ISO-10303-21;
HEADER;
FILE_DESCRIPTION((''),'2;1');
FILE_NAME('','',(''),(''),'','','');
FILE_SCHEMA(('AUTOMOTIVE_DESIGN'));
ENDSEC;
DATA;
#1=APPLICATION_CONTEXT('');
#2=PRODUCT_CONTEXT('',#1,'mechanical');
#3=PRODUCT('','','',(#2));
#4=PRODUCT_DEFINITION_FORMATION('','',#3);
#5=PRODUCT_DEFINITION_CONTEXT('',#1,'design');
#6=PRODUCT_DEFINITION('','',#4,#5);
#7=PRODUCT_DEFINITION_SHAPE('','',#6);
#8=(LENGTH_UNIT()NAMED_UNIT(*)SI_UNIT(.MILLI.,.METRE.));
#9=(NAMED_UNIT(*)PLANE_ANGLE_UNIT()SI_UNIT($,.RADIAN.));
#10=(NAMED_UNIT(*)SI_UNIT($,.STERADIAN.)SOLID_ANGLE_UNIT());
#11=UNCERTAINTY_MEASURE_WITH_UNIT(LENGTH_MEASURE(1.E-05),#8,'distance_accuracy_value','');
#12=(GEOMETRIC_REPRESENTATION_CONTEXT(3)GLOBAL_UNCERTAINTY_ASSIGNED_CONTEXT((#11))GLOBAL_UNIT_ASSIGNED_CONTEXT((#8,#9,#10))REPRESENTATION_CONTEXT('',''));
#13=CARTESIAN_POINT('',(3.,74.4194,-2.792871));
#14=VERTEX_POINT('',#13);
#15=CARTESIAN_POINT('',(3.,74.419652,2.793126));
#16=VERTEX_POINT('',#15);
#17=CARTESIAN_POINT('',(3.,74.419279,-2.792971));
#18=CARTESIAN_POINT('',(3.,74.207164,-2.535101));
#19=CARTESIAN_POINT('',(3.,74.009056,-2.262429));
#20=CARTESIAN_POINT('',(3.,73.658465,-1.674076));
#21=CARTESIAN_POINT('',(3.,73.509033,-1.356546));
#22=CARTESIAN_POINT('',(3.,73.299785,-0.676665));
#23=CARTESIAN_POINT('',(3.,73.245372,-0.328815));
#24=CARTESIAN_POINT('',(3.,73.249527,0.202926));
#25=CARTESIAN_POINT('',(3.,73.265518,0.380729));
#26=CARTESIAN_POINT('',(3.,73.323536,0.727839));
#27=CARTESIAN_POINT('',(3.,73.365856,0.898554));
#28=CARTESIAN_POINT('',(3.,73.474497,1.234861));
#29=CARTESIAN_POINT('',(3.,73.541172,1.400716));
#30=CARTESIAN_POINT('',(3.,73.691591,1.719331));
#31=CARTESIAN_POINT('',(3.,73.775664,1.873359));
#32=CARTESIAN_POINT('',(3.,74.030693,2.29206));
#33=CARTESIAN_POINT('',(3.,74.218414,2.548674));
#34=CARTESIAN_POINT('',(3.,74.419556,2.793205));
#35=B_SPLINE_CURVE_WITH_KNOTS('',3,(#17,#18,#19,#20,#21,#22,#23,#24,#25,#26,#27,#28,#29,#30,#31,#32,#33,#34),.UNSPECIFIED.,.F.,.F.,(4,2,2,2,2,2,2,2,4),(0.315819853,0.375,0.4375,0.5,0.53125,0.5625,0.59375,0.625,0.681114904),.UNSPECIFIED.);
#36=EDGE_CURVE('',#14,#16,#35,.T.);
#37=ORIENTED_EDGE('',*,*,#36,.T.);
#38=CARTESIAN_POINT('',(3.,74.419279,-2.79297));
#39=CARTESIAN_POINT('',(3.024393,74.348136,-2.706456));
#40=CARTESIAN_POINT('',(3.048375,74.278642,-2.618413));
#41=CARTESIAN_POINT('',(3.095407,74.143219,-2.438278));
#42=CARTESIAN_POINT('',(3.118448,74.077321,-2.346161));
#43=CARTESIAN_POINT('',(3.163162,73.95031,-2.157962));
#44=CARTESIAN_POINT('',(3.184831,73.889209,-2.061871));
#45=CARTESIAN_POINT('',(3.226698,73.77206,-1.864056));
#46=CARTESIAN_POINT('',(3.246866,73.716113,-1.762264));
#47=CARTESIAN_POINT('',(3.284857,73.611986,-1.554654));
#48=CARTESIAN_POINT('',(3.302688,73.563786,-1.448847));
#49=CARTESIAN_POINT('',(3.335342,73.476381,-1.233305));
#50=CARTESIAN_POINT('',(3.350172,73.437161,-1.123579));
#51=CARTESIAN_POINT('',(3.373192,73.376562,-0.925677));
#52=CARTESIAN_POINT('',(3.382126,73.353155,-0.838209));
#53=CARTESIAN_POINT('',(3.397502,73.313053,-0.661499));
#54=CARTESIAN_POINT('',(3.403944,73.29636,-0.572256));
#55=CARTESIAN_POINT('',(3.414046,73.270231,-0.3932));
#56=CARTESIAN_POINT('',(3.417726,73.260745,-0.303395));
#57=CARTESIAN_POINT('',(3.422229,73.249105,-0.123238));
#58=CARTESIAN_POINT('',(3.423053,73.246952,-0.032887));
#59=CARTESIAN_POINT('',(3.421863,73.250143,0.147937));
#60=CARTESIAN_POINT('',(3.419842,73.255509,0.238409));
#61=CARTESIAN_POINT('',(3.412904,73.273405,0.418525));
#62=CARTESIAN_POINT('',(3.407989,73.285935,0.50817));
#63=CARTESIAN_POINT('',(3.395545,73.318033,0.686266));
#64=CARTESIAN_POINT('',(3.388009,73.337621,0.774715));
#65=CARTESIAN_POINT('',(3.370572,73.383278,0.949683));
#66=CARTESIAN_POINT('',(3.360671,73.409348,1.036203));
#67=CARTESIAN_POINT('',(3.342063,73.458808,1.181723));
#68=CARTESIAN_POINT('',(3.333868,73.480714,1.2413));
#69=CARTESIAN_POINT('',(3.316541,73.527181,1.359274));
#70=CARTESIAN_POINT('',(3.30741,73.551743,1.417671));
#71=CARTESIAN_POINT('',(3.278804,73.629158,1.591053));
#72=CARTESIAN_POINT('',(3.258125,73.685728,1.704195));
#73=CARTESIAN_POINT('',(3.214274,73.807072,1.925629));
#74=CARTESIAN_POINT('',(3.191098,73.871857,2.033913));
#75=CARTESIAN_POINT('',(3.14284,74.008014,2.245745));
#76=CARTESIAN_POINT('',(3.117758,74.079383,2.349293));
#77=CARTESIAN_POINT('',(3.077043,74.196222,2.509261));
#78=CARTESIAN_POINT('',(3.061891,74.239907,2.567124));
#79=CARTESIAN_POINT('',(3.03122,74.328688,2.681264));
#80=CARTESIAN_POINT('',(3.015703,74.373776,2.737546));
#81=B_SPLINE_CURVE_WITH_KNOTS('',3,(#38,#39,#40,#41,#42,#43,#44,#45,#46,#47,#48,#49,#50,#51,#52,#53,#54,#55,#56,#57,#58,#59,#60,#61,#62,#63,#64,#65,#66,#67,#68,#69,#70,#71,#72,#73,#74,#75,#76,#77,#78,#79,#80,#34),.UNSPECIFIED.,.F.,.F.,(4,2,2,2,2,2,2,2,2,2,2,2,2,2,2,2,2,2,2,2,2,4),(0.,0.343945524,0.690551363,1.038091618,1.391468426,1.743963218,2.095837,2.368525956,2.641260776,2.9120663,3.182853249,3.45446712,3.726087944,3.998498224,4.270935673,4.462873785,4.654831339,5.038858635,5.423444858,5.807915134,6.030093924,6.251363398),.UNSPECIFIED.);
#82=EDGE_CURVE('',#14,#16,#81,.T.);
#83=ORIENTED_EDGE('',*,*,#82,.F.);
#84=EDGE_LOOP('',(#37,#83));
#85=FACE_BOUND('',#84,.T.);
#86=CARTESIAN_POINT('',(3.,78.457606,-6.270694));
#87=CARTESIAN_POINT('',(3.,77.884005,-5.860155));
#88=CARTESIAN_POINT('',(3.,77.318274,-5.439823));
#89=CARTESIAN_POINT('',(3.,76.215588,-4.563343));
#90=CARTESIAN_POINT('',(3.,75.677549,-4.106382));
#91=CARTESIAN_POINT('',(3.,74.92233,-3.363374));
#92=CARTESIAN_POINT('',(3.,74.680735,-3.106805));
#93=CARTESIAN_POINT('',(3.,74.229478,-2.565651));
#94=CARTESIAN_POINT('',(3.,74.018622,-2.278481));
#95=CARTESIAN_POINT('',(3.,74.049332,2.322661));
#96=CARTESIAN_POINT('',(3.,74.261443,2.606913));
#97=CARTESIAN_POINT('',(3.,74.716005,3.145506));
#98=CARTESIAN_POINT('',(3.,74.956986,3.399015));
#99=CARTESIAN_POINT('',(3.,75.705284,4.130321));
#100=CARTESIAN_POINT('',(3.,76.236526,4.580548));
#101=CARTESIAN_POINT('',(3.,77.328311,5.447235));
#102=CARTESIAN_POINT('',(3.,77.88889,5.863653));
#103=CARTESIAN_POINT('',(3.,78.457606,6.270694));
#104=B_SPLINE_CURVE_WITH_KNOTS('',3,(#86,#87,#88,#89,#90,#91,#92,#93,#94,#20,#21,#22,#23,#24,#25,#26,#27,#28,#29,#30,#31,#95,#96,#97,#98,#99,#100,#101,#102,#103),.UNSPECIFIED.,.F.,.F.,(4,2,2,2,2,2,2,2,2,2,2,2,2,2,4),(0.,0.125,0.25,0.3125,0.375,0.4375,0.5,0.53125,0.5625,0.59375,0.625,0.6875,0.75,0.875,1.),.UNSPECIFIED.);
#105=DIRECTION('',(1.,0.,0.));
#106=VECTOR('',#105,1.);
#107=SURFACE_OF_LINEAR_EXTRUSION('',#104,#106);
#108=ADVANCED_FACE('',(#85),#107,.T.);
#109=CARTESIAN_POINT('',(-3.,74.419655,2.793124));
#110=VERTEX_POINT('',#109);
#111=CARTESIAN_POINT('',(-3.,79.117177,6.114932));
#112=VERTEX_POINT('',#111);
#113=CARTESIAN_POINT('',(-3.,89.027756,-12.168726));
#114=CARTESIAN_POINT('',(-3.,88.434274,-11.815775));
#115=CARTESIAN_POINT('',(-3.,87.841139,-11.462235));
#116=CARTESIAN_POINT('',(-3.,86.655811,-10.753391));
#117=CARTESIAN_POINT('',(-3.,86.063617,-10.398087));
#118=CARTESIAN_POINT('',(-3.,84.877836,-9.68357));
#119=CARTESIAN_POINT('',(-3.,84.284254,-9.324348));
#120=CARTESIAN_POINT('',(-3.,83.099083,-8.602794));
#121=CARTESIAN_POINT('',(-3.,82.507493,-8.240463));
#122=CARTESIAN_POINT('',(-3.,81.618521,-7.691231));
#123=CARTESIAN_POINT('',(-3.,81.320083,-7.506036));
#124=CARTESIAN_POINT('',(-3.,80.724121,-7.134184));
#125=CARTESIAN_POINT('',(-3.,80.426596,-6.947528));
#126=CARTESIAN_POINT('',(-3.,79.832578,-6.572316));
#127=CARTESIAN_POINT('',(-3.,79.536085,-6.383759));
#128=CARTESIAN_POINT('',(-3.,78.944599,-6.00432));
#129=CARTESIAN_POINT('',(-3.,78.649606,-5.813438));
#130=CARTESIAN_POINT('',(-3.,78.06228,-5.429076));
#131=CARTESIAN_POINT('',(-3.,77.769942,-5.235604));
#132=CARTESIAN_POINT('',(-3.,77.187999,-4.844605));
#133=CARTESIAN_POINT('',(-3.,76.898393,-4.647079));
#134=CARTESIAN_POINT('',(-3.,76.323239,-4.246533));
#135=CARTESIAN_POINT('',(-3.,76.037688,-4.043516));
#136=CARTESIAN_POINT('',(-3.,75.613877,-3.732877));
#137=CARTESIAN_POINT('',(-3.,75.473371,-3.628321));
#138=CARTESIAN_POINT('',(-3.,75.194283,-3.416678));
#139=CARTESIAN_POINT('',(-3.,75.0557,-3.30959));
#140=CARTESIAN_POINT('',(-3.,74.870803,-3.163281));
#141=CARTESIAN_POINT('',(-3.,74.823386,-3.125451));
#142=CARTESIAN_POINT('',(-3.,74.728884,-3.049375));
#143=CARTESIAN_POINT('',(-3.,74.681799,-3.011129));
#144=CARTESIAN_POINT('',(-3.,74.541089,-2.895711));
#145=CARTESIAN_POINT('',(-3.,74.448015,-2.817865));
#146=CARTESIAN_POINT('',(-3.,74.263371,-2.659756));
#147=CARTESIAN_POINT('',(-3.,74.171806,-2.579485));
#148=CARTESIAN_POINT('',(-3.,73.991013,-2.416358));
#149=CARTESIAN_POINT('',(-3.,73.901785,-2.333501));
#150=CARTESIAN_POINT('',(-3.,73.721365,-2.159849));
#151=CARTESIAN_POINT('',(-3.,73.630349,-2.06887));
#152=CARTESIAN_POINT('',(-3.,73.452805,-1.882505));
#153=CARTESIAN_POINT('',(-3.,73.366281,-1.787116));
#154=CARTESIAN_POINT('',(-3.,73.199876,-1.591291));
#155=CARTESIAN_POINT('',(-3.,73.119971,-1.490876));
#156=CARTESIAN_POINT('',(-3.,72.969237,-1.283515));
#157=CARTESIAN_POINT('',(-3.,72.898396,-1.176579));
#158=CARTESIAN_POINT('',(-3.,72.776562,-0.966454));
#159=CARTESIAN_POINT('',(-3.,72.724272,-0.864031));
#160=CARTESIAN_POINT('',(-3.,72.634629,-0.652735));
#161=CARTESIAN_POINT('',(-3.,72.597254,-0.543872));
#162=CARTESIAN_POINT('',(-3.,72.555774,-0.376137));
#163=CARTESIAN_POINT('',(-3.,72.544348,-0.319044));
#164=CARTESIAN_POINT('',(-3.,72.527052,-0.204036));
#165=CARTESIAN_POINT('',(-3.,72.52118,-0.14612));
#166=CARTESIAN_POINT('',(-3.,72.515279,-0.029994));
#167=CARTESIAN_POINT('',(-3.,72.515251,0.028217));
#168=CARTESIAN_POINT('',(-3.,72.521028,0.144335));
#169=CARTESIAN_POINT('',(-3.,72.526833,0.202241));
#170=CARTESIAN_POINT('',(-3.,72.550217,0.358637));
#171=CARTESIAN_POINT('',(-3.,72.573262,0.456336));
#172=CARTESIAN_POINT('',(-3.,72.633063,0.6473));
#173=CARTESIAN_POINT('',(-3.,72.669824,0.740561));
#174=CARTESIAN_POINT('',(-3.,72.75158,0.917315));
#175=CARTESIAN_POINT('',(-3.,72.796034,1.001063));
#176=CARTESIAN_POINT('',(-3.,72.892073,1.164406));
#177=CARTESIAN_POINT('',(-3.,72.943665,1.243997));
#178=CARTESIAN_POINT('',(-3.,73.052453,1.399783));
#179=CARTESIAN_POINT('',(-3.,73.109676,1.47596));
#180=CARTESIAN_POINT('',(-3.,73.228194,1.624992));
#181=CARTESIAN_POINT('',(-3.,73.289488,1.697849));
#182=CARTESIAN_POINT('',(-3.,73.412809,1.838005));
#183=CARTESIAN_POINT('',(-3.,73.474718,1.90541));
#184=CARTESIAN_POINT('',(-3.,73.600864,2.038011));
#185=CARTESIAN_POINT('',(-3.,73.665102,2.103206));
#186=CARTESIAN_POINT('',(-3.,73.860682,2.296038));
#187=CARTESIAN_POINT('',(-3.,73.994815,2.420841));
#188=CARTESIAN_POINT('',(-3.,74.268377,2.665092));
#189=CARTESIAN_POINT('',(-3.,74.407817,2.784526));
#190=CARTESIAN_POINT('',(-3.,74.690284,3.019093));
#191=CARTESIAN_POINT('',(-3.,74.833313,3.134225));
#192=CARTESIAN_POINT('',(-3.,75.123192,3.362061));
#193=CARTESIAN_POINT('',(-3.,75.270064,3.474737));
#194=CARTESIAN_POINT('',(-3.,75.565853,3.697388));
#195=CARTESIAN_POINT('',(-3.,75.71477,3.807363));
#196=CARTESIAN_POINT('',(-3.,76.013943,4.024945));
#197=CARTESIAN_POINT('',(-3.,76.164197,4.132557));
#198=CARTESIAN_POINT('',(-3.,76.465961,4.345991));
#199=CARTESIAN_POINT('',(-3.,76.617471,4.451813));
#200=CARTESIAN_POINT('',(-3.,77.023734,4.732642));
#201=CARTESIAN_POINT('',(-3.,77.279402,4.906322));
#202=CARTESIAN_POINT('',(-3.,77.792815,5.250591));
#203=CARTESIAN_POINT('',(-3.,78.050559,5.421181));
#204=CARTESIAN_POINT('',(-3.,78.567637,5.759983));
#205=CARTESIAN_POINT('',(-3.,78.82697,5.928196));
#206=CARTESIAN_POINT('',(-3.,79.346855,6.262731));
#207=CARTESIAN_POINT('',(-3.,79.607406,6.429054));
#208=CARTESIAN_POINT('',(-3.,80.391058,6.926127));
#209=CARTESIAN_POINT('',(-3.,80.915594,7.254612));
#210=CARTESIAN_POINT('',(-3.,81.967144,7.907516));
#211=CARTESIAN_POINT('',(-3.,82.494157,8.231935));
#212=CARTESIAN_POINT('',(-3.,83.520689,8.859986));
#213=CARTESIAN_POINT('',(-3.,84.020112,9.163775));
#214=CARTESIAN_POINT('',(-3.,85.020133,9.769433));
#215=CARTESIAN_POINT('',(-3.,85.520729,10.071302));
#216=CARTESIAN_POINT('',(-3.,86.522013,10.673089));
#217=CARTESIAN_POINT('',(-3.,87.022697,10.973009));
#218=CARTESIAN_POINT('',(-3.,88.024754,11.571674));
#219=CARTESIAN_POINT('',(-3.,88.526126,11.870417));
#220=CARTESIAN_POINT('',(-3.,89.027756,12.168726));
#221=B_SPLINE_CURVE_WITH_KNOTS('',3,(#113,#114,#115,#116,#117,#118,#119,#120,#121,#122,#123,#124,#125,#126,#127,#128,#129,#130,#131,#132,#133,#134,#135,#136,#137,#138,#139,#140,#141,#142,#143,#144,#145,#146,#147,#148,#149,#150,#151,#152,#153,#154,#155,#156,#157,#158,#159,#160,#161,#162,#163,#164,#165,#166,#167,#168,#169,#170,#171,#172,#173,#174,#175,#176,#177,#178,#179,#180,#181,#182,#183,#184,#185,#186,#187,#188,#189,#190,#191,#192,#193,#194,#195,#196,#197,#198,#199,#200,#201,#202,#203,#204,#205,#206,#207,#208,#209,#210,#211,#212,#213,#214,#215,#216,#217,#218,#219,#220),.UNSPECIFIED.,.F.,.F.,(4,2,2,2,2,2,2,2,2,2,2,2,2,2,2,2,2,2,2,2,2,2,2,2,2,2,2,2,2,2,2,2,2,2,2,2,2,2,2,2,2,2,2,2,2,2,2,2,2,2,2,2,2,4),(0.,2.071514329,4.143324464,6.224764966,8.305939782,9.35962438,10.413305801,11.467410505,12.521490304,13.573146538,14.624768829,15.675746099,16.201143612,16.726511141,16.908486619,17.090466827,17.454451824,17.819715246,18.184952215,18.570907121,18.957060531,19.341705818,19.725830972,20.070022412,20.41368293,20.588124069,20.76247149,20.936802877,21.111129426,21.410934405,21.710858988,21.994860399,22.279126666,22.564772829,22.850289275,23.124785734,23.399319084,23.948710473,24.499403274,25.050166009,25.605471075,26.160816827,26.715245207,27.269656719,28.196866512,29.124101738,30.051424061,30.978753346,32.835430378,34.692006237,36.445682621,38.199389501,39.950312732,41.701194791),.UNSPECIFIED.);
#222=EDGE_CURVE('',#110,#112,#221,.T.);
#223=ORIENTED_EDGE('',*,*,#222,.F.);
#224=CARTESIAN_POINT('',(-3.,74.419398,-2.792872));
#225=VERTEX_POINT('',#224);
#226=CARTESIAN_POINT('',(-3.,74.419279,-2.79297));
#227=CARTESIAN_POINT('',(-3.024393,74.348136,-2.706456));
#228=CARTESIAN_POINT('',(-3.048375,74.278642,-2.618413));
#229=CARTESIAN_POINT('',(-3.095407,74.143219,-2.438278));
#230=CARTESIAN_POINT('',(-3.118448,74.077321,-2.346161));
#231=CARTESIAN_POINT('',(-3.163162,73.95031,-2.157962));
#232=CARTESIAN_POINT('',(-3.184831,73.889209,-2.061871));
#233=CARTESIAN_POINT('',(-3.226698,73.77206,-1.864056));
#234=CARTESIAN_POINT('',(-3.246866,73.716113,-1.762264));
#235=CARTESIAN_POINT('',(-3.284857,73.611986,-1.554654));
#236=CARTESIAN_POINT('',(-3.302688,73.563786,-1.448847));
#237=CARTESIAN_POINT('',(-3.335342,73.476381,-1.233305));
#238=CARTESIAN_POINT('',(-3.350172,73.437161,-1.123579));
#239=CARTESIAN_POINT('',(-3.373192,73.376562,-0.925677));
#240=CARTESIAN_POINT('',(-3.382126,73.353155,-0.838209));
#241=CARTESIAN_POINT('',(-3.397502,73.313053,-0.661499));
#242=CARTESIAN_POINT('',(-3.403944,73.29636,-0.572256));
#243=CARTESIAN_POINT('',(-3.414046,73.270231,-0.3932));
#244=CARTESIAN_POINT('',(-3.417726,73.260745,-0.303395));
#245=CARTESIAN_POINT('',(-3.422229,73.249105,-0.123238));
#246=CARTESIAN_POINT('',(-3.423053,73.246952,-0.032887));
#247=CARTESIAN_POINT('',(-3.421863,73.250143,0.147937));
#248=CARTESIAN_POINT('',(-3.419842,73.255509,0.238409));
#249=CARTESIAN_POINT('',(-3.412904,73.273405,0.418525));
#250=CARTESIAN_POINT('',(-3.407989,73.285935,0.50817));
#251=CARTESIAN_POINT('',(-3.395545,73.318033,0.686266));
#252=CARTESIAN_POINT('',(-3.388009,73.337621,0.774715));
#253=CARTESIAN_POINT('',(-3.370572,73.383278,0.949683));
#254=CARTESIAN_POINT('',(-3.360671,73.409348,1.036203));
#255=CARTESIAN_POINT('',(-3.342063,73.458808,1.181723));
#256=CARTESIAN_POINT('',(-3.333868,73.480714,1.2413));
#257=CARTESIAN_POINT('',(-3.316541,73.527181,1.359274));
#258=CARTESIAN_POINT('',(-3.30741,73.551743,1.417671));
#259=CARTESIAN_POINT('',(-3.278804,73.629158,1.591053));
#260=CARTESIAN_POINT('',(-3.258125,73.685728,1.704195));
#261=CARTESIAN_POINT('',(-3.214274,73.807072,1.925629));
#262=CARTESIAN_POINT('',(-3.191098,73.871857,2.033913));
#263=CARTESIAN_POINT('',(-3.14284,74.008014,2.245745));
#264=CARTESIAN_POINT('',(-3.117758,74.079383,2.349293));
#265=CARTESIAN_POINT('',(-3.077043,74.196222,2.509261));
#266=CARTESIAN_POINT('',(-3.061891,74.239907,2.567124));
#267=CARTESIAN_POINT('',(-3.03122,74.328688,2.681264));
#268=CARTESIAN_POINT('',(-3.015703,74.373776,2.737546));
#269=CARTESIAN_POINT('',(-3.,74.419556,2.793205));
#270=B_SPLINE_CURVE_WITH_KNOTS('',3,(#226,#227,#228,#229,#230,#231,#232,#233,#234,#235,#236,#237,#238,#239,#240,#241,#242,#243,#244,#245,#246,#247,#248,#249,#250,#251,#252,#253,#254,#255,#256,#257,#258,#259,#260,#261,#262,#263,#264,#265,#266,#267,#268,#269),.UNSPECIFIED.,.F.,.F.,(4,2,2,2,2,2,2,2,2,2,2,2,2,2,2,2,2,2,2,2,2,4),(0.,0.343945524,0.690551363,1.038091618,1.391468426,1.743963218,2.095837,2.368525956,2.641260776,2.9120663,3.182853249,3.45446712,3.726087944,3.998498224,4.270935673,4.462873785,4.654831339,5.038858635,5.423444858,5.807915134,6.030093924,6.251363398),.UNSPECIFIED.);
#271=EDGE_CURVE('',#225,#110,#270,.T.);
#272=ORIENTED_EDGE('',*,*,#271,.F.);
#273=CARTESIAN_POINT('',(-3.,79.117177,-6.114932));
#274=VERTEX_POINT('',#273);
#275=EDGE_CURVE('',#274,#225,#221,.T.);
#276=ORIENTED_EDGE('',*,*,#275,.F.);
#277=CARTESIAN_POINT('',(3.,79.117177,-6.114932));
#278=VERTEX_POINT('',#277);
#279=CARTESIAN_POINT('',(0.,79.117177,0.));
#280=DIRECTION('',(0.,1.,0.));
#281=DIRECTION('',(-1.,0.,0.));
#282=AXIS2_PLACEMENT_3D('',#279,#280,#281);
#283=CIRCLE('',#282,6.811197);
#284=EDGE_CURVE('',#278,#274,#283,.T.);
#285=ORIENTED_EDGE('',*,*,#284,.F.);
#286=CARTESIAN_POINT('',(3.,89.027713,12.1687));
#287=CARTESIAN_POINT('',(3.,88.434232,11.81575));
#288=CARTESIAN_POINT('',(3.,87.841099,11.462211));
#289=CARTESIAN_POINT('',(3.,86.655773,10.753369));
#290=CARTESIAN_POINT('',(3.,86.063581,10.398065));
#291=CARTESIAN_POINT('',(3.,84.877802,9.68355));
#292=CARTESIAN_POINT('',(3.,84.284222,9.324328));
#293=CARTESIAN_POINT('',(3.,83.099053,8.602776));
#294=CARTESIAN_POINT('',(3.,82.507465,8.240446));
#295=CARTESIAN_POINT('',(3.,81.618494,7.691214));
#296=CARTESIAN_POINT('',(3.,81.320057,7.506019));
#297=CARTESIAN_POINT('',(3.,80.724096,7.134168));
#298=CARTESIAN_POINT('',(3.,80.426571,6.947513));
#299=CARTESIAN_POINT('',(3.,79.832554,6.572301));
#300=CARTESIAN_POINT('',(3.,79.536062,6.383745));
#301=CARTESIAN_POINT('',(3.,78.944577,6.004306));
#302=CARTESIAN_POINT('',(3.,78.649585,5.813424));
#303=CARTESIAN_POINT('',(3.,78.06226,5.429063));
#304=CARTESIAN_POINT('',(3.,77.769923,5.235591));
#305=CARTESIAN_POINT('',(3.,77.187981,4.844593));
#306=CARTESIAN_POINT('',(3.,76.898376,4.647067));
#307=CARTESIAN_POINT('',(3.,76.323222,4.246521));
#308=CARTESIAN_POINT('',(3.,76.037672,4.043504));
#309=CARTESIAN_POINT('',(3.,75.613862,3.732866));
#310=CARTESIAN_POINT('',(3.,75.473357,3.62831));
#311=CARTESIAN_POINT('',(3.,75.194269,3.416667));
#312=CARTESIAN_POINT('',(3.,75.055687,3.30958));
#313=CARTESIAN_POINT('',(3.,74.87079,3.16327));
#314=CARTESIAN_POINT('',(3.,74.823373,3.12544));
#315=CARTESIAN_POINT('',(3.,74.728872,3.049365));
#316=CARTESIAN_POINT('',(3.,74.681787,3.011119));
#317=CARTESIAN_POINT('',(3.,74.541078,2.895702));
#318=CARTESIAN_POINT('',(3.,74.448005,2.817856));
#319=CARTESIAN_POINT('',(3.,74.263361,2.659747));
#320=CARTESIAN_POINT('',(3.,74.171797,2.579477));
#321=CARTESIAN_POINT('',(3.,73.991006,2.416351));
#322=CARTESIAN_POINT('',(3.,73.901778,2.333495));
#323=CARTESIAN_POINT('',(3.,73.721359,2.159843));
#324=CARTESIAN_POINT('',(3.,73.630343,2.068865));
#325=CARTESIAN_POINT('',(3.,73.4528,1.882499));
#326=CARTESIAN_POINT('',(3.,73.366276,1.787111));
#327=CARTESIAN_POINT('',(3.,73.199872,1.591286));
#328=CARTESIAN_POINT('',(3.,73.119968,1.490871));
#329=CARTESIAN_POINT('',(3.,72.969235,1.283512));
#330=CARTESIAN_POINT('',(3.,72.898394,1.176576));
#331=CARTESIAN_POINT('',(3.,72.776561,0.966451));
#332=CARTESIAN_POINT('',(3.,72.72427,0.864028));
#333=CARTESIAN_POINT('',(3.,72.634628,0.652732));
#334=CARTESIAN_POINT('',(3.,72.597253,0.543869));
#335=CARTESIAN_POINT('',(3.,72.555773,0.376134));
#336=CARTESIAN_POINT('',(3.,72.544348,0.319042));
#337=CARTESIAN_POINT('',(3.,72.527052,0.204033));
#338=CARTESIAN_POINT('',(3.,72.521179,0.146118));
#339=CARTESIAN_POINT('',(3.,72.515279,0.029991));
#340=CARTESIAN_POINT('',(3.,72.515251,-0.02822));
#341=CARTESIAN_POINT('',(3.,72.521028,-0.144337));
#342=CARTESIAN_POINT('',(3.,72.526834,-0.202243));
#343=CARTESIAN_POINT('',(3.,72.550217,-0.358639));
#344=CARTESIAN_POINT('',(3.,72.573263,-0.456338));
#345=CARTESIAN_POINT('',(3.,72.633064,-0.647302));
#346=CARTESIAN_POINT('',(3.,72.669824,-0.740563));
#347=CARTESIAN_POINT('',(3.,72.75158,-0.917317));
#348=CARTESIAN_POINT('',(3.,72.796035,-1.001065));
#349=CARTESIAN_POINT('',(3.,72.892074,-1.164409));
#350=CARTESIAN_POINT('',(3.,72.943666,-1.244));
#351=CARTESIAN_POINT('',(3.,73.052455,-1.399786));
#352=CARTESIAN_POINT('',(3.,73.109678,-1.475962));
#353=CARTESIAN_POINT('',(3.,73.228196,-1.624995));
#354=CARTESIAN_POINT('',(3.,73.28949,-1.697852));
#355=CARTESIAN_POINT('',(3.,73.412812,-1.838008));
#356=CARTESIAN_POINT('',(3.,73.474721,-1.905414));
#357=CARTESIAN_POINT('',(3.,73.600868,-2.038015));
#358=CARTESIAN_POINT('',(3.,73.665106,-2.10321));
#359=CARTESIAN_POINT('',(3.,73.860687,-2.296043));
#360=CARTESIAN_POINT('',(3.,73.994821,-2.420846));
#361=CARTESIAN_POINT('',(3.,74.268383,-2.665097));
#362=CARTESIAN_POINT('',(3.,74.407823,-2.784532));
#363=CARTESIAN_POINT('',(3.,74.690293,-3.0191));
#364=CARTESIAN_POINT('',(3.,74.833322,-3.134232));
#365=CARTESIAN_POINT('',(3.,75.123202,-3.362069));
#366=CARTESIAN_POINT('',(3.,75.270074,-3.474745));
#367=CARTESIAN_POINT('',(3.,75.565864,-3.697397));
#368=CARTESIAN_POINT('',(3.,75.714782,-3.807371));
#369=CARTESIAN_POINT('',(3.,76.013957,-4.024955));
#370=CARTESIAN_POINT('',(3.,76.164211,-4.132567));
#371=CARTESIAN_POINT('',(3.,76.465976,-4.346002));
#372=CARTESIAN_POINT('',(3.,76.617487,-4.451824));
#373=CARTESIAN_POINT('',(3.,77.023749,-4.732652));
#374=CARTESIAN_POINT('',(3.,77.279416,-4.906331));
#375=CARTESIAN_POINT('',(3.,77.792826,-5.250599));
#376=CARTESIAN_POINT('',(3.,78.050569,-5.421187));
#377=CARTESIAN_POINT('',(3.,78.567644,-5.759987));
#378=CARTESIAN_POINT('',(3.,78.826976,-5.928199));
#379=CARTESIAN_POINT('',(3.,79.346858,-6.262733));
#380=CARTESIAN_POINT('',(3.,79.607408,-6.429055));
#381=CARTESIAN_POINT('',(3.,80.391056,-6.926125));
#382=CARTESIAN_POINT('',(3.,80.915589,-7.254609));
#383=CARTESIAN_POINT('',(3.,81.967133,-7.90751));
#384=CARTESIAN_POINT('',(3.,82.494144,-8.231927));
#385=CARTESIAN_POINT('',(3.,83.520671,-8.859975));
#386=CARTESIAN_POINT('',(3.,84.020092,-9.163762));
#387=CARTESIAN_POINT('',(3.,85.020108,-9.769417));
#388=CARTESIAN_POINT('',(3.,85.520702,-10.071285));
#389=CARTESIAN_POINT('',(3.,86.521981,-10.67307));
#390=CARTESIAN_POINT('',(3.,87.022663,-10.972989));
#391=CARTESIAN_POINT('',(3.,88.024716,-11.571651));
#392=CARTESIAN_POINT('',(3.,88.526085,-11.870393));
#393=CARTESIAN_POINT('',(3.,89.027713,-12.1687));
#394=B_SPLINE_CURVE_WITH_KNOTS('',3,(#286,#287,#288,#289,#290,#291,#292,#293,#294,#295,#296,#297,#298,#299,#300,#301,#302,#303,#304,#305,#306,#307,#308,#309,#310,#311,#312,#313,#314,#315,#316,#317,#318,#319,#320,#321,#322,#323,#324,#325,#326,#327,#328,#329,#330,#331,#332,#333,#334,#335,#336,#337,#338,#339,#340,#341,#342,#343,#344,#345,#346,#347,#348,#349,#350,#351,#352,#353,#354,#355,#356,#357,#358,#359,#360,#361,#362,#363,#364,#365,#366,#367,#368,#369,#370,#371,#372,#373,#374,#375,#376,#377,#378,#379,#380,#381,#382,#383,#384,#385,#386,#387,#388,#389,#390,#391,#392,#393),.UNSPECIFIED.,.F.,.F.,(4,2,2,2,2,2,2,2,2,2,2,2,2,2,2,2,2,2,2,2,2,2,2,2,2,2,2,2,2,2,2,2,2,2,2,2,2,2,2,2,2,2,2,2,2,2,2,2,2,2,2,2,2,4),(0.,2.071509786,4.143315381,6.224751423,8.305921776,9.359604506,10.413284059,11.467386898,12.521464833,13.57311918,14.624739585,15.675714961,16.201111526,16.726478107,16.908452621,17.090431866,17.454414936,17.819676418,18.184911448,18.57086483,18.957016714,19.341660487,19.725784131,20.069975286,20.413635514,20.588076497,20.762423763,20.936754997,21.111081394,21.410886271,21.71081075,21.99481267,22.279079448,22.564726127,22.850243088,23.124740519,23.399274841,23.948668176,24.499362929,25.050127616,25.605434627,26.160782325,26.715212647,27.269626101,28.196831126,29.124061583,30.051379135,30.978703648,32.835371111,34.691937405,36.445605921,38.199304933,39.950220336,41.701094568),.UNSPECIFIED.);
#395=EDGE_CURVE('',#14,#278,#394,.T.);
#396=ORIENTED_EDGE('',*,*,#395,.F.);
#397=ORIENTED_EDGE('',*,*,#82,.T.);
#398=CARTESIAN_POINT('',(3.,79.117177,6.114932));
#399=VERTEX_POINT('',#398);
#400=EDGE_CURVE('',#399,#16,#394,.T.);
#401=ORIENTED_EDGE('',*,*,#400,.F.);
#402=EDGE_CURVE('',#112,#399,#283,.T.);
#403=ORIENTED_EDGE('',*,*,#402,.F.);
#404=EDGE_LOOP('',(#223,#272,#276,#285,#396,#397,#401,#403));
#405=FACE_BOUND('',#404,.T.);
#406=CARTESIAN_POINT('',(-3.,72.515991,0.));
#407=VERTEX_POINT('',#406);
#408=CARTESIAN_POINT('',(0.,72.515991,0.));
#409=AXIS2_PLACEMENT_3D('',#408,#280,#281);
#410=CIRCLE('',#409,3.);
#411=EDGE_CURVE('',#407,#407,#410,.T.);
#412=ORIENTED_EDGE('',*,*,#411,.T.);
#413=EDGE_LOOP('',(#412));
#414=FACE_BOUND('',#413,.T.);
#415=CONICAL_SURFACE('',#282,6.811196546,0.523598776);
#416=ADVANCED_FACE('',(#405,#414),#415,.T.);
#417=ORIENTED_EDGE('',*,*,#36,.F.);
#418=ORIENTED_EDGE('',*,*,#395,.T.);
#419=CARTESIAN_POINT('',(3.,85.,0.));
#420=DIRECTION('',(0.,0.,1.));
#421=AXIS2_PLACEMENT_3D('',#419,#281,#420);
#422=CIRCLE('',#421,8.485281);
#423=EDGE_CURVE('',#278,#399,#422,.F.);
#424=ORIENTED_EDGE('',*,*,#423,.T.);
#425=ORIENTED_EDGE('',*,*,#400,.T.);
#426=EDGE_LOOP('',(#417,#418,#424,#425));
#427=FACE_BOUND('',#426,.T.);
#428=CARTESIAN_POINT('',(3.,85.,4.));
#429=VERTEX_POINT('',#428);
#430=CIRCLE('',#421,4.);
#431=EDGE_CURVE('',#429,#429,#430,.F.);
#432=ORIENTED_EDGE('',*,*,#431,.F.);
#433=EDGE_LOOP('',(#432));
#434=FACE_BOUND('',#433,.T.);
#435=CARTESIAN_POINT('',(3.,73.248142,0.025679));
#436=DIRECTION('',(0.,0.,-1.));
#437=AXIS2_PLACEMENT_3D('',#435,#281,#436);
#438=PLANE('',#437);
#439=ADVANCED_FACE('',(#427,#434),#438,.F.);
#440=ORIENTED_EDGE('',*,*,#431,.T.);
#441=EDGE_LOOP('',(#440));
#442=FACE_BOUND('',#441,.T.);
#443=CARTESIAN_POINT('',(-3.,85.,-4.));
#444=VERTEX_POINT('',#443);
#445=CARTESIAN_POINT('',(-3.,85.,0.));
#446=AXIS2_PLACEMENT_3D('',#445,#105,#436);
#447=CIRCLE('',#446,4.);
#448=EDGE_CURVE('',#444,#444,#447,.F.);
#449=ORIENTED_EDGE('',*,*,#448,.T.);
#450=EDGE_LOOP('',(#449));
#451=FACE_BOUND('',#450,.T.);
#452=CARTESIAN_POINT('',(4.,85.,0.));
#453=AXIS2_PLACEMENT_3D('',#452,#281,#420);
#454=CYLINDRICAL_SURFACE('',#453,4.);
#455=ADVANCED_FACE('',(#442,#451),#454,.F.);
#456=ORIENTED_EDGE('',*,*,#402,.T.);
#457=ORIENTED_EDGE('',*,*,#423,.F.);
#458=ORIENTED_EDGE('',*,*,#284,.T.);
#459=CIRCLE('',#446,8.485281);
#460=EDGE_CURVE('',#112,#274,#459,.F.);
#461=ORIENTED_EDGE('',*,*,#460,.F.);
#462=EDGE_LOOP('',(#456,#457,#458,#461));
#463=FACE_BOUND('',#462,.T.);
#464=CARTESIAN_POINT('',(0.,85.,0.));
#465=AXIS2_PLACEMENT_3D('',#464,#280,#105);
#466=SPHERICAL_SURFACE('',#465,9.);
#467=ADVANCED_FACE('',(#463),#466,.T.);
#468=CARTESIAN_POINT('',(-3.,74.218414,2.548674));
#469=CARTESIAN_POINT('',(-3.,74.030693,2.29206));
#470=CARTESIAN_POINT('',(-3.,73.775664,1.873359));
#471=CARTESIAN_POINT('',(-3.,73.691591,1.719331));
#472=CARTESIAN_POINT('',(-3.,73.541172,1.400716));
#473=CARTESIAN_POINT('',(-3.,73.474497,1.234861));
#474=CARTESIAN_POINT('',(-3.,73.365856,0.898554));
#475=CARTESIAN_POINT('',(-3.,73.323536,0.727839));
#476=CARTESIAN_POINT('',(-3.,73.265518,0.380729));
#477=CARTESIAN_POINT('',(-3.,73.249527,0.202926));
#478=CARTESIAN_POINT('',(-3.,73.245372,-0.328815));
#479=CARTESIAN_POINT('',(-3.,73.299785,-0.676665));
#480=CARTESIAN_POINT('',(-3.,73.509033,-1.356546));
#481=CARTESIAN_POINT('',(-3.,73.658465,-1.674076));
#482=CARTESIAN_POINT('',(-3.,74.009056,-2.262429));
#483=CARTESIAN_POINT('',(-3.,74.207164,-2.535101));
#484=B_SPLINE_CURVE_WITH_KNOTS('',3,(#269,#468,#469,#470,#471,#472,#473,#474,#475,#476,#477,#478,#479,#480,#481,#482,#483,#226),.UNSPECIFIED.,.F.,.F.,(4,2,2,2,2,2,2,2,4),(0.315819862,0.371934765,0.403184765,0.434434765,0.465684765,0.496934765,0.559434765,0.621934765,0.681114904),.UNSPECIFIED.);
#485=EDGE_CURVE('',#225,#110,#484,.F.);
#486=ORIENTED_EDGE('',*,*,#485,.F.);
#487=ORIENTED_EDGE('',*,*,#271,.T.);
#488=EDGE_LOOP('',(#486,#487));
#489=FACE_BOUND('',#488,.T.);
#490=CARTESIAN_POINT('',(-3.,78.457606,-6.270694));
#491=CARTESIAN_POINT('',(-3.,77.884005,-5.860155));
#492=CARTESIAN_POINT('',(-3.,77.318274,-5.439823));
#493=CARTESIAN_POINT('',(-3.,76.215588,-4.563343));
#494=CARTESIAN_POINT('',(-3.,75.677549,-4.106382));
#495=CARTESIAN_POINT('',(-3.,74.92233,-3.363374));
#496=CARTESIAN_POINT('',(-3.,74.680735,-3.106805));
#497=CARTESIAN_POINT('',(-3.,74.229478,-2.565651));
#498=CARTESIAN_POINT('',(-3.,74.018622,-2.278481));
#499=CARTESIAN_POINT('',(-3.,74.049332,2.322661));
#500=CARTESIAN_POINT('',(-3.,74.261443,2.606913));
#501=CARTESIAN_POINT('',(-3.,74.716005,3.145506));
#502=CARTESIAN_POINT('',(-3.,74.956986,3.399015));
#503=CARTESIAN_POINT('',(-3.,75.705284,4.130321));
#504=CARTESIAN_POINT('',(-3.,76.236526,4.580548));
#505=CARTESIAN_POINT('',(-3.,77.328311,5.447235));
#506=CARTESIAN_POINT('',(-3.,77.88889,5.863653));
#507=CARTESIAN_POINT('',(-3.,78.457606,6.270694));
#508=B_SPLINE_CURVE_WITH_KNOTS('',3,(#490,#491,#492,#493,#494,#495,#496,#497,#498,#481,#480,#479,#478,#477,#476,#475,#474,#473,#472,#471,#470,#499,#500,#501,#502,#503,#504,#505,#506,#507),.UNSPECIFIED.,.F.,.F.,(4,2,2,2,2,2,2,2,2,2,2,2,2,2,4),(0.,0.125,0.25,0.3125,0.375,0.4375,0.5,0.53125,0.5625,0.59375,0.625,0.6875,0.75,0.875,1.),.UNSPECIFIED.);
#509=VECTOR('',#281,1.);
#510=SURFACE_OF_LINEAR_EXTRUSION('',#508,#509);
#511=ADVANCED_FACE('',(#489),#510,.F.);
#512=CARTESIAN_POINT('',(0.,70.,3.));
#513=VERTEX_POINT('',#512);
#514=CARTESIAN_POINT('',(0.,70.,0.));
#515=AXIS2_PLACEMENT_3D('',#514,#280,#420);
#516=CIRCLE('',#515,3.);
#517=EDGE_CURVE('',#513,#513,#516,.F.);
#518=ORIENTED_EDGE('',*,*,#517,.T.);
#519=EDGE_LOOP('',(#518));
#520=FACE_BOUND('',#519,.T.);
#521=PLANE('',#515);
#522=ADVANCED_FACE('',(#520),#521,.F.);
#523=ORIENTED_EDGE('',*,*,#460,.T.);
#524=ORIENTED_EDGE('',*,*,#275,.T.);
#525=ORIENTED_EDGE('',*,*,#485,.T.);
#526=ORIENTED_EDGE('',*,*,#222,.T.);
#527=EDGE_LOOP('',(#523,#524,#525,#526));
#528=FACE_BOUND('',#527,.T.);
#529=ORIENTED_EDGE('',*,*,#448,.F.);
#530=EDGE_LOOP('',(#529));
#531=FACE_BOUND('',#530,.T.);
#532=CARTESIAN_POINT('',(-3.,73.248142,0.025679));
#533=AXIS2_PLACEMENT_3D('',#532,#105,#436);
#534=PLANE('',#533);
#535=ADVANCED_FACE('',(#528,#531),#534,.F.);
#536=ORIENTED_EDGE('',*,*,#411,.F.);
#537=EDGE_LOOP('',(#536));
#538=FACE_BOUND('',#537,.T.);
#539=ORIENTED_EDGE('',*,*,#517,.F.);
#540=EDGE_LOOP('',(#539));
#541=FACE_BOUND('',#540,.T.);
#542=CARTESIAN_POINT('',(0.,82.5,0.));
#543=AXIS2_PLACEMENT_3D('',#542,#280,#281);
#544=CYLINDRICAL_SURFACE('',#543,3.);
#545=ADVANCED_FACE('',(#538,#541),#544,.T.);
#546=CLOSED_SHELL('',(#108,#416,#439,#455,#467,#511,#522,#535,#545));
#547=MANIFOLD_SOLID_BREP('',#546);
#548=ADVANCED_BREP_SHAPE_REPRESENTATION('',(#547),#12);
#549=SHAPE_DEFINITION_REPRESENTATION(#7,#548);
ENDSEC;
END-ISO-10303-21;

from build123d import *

# Parameters (mm, degrees)
SZKIC2_W                   = 5.611911117
SZKIC2_H                   = 18
WYTNIJ_WYCI_GNI_CIE3_DEPTH = 100
SZKIC3_R                   = 4
WYTNIJ_WYCI_GNI_CIE4_DEPTH = 9
WYTNIJ_WYCI_GNI_CIE5_DEPTH = 1
SZKIC5_R                   = 4
WYTNIJ_WYCI_GNI_CIE6_DEPTH = 70


with BuildPart() as part:
    # Szkic1 → Obrót1 (revolve)
    with BuildSketch(Plane.XY):
        with BuildLine():
            Line((0, 0), (-2, 0))
            Line((-2, 0), (-2, 47.515991356))
            Line((-2, 47.515991356), (-4, 47.515991356))
            Line((-4, 47.515991356), (-4, 52.515991356))
            Line((-4, 52.515991356), (-3, 52.515991356))
            Line((-3, 52.515991356), (-3, 72.515991356))
            Line((-3, 72.515991356), (-6.811196546, 79.117177411))
            ThreePointArc((-6.811196546, 79.117177411), (-8.18368509, 88.745303506), (0, 94))
            Line((0, 94), (0, 87.5))
            ThreePointArc((0, 87.5), (-2.5, 85), (0, 82.5))
            Line((0, 82.5), (0, 0))
        make_face()
    revolve(axis=Axis((0, 82.5, 0), (0, -1, 0)))

    # Szkic2 → Wytnij-wyciągnięcie3 (cut)
    with BuildSketch(Plane(origin=(0, 0, 0), x_dir=(1, 0, 0), z_dir=(0, 1, 0))):
        with Locations((-6.805955559, 0)):
            Rectangle(SZKIC2_W, SZKIC2_H)
        with Locations((6.805955559, 0)):
            Rectangle(SZKIC2_W, SZKIC2_H)
    extrude(amount=WYTNIJ_WYCI_GNI_CIE3_DEPTH, mode=Mode.SUBTRACT)

    # Szkic3 → Wytnij-wyciągnięcie4 (cut, through all)
    with BuildSketch(Plane.ZY.offset(4)):
        with Locations((0, 85)):
            Circle(SZKIC3_R)
    extrude(amount=-WYTNIJ_WYCI_GNI_CIE4_DEPTH, mode=Mode.SUBTRACT)

    # Szkic4 → Wytnij-wyciągnięcie5 (cut)
    with BuildSketch(Plane.ZY.offset(4)):
        with BuildLine():
            ThreePointArc((6.270693727, 78.457606273), (-1.54e-07, 94.062257748), (-6.270693505, 78.45760606))
            add(Edge.make_bspline(
                [(-6.270693505, 78.45760606), (-5.860155238, 77.884005031), (-5.439822901, 77.318273551), (-4.56334323, 76.215587996), (-4.106381954, 75.67754923), (-3.363374021, 74.922329572), (-3.10680463, 74.680734677), (-2.565651322, 74.22947798), (-2.278481074, 74.018621845), (-1.674076312, 73.65846472), (-1.356546022, 73.509032989), (-0.676664628, 73.299784881), (-0.328815369, 73.245372297), (0.202925796, 73.249526844), (0.380729476, 73.265518373), (0.727839454, 73.323535586), (0.898553898, 73.365855519), (1.234860958, 73.474497232), (1.400715996, 73.541171917), (1.719331355, 73.691591375), (1.873358854, 73.775663717), (2.32266111, 74.049331959), (2.606912587, 74.261443159), (3.145505929, 74.716004998), (3.399015103, 74.956985507), (4.130320647, 75.70528438), (4.580547786, 76.236525924), (5.447234702, 77.328310614), (5.863652605, 77.888890096), (6.270693727, 78.457606273)],
                knots=[0, 0, 0, 0, 0.125, 0.125, 0.25, 0.25, 0.3125, 0.3125, 0.375, 0.375, 0.4375, 0.4375, 0.5, 0.5, 0.53125, 0.53125, 0.5625, 0.5625, 0.59375, 0.59375, 0.625, 0.625, 0.6875, 0.6875, 0.75, 0.75, 0.875, 0.875, 1, 1, 1, 1], degree=3))
        make_face()
    wytnij_wyci_gni_cie5 = extrude(amount=-WYTNIJ_WYCI_GNI_CIE5_DEPTH, mode=Mode.SUBTRACT)

    # Lustro1: Wytnij-wyciągnięcie5 across plane
    add(wytnij_wyci_gni_cie5.mirror(Plane(origin=(0, 0, 0), x_dir=(0, 0, 1), z_dir=(1, 0, 0))), mode=Mode.SUBTRACT)

    # Szkic5 → Wytnij-wyciągnięcie6 (cut)
    with BuildSketch(Plane(origin=(0, 0, 0), x_dir=(1, 0, 0), z_dir=(0, 1, 0))):
        Circle(SZKIC5_R)
    extrude(amount=WYTNIJ_WYCI_GNI_CIE6_DEPTH, mode=Mode.SUBTRACT)


solid = part.part
